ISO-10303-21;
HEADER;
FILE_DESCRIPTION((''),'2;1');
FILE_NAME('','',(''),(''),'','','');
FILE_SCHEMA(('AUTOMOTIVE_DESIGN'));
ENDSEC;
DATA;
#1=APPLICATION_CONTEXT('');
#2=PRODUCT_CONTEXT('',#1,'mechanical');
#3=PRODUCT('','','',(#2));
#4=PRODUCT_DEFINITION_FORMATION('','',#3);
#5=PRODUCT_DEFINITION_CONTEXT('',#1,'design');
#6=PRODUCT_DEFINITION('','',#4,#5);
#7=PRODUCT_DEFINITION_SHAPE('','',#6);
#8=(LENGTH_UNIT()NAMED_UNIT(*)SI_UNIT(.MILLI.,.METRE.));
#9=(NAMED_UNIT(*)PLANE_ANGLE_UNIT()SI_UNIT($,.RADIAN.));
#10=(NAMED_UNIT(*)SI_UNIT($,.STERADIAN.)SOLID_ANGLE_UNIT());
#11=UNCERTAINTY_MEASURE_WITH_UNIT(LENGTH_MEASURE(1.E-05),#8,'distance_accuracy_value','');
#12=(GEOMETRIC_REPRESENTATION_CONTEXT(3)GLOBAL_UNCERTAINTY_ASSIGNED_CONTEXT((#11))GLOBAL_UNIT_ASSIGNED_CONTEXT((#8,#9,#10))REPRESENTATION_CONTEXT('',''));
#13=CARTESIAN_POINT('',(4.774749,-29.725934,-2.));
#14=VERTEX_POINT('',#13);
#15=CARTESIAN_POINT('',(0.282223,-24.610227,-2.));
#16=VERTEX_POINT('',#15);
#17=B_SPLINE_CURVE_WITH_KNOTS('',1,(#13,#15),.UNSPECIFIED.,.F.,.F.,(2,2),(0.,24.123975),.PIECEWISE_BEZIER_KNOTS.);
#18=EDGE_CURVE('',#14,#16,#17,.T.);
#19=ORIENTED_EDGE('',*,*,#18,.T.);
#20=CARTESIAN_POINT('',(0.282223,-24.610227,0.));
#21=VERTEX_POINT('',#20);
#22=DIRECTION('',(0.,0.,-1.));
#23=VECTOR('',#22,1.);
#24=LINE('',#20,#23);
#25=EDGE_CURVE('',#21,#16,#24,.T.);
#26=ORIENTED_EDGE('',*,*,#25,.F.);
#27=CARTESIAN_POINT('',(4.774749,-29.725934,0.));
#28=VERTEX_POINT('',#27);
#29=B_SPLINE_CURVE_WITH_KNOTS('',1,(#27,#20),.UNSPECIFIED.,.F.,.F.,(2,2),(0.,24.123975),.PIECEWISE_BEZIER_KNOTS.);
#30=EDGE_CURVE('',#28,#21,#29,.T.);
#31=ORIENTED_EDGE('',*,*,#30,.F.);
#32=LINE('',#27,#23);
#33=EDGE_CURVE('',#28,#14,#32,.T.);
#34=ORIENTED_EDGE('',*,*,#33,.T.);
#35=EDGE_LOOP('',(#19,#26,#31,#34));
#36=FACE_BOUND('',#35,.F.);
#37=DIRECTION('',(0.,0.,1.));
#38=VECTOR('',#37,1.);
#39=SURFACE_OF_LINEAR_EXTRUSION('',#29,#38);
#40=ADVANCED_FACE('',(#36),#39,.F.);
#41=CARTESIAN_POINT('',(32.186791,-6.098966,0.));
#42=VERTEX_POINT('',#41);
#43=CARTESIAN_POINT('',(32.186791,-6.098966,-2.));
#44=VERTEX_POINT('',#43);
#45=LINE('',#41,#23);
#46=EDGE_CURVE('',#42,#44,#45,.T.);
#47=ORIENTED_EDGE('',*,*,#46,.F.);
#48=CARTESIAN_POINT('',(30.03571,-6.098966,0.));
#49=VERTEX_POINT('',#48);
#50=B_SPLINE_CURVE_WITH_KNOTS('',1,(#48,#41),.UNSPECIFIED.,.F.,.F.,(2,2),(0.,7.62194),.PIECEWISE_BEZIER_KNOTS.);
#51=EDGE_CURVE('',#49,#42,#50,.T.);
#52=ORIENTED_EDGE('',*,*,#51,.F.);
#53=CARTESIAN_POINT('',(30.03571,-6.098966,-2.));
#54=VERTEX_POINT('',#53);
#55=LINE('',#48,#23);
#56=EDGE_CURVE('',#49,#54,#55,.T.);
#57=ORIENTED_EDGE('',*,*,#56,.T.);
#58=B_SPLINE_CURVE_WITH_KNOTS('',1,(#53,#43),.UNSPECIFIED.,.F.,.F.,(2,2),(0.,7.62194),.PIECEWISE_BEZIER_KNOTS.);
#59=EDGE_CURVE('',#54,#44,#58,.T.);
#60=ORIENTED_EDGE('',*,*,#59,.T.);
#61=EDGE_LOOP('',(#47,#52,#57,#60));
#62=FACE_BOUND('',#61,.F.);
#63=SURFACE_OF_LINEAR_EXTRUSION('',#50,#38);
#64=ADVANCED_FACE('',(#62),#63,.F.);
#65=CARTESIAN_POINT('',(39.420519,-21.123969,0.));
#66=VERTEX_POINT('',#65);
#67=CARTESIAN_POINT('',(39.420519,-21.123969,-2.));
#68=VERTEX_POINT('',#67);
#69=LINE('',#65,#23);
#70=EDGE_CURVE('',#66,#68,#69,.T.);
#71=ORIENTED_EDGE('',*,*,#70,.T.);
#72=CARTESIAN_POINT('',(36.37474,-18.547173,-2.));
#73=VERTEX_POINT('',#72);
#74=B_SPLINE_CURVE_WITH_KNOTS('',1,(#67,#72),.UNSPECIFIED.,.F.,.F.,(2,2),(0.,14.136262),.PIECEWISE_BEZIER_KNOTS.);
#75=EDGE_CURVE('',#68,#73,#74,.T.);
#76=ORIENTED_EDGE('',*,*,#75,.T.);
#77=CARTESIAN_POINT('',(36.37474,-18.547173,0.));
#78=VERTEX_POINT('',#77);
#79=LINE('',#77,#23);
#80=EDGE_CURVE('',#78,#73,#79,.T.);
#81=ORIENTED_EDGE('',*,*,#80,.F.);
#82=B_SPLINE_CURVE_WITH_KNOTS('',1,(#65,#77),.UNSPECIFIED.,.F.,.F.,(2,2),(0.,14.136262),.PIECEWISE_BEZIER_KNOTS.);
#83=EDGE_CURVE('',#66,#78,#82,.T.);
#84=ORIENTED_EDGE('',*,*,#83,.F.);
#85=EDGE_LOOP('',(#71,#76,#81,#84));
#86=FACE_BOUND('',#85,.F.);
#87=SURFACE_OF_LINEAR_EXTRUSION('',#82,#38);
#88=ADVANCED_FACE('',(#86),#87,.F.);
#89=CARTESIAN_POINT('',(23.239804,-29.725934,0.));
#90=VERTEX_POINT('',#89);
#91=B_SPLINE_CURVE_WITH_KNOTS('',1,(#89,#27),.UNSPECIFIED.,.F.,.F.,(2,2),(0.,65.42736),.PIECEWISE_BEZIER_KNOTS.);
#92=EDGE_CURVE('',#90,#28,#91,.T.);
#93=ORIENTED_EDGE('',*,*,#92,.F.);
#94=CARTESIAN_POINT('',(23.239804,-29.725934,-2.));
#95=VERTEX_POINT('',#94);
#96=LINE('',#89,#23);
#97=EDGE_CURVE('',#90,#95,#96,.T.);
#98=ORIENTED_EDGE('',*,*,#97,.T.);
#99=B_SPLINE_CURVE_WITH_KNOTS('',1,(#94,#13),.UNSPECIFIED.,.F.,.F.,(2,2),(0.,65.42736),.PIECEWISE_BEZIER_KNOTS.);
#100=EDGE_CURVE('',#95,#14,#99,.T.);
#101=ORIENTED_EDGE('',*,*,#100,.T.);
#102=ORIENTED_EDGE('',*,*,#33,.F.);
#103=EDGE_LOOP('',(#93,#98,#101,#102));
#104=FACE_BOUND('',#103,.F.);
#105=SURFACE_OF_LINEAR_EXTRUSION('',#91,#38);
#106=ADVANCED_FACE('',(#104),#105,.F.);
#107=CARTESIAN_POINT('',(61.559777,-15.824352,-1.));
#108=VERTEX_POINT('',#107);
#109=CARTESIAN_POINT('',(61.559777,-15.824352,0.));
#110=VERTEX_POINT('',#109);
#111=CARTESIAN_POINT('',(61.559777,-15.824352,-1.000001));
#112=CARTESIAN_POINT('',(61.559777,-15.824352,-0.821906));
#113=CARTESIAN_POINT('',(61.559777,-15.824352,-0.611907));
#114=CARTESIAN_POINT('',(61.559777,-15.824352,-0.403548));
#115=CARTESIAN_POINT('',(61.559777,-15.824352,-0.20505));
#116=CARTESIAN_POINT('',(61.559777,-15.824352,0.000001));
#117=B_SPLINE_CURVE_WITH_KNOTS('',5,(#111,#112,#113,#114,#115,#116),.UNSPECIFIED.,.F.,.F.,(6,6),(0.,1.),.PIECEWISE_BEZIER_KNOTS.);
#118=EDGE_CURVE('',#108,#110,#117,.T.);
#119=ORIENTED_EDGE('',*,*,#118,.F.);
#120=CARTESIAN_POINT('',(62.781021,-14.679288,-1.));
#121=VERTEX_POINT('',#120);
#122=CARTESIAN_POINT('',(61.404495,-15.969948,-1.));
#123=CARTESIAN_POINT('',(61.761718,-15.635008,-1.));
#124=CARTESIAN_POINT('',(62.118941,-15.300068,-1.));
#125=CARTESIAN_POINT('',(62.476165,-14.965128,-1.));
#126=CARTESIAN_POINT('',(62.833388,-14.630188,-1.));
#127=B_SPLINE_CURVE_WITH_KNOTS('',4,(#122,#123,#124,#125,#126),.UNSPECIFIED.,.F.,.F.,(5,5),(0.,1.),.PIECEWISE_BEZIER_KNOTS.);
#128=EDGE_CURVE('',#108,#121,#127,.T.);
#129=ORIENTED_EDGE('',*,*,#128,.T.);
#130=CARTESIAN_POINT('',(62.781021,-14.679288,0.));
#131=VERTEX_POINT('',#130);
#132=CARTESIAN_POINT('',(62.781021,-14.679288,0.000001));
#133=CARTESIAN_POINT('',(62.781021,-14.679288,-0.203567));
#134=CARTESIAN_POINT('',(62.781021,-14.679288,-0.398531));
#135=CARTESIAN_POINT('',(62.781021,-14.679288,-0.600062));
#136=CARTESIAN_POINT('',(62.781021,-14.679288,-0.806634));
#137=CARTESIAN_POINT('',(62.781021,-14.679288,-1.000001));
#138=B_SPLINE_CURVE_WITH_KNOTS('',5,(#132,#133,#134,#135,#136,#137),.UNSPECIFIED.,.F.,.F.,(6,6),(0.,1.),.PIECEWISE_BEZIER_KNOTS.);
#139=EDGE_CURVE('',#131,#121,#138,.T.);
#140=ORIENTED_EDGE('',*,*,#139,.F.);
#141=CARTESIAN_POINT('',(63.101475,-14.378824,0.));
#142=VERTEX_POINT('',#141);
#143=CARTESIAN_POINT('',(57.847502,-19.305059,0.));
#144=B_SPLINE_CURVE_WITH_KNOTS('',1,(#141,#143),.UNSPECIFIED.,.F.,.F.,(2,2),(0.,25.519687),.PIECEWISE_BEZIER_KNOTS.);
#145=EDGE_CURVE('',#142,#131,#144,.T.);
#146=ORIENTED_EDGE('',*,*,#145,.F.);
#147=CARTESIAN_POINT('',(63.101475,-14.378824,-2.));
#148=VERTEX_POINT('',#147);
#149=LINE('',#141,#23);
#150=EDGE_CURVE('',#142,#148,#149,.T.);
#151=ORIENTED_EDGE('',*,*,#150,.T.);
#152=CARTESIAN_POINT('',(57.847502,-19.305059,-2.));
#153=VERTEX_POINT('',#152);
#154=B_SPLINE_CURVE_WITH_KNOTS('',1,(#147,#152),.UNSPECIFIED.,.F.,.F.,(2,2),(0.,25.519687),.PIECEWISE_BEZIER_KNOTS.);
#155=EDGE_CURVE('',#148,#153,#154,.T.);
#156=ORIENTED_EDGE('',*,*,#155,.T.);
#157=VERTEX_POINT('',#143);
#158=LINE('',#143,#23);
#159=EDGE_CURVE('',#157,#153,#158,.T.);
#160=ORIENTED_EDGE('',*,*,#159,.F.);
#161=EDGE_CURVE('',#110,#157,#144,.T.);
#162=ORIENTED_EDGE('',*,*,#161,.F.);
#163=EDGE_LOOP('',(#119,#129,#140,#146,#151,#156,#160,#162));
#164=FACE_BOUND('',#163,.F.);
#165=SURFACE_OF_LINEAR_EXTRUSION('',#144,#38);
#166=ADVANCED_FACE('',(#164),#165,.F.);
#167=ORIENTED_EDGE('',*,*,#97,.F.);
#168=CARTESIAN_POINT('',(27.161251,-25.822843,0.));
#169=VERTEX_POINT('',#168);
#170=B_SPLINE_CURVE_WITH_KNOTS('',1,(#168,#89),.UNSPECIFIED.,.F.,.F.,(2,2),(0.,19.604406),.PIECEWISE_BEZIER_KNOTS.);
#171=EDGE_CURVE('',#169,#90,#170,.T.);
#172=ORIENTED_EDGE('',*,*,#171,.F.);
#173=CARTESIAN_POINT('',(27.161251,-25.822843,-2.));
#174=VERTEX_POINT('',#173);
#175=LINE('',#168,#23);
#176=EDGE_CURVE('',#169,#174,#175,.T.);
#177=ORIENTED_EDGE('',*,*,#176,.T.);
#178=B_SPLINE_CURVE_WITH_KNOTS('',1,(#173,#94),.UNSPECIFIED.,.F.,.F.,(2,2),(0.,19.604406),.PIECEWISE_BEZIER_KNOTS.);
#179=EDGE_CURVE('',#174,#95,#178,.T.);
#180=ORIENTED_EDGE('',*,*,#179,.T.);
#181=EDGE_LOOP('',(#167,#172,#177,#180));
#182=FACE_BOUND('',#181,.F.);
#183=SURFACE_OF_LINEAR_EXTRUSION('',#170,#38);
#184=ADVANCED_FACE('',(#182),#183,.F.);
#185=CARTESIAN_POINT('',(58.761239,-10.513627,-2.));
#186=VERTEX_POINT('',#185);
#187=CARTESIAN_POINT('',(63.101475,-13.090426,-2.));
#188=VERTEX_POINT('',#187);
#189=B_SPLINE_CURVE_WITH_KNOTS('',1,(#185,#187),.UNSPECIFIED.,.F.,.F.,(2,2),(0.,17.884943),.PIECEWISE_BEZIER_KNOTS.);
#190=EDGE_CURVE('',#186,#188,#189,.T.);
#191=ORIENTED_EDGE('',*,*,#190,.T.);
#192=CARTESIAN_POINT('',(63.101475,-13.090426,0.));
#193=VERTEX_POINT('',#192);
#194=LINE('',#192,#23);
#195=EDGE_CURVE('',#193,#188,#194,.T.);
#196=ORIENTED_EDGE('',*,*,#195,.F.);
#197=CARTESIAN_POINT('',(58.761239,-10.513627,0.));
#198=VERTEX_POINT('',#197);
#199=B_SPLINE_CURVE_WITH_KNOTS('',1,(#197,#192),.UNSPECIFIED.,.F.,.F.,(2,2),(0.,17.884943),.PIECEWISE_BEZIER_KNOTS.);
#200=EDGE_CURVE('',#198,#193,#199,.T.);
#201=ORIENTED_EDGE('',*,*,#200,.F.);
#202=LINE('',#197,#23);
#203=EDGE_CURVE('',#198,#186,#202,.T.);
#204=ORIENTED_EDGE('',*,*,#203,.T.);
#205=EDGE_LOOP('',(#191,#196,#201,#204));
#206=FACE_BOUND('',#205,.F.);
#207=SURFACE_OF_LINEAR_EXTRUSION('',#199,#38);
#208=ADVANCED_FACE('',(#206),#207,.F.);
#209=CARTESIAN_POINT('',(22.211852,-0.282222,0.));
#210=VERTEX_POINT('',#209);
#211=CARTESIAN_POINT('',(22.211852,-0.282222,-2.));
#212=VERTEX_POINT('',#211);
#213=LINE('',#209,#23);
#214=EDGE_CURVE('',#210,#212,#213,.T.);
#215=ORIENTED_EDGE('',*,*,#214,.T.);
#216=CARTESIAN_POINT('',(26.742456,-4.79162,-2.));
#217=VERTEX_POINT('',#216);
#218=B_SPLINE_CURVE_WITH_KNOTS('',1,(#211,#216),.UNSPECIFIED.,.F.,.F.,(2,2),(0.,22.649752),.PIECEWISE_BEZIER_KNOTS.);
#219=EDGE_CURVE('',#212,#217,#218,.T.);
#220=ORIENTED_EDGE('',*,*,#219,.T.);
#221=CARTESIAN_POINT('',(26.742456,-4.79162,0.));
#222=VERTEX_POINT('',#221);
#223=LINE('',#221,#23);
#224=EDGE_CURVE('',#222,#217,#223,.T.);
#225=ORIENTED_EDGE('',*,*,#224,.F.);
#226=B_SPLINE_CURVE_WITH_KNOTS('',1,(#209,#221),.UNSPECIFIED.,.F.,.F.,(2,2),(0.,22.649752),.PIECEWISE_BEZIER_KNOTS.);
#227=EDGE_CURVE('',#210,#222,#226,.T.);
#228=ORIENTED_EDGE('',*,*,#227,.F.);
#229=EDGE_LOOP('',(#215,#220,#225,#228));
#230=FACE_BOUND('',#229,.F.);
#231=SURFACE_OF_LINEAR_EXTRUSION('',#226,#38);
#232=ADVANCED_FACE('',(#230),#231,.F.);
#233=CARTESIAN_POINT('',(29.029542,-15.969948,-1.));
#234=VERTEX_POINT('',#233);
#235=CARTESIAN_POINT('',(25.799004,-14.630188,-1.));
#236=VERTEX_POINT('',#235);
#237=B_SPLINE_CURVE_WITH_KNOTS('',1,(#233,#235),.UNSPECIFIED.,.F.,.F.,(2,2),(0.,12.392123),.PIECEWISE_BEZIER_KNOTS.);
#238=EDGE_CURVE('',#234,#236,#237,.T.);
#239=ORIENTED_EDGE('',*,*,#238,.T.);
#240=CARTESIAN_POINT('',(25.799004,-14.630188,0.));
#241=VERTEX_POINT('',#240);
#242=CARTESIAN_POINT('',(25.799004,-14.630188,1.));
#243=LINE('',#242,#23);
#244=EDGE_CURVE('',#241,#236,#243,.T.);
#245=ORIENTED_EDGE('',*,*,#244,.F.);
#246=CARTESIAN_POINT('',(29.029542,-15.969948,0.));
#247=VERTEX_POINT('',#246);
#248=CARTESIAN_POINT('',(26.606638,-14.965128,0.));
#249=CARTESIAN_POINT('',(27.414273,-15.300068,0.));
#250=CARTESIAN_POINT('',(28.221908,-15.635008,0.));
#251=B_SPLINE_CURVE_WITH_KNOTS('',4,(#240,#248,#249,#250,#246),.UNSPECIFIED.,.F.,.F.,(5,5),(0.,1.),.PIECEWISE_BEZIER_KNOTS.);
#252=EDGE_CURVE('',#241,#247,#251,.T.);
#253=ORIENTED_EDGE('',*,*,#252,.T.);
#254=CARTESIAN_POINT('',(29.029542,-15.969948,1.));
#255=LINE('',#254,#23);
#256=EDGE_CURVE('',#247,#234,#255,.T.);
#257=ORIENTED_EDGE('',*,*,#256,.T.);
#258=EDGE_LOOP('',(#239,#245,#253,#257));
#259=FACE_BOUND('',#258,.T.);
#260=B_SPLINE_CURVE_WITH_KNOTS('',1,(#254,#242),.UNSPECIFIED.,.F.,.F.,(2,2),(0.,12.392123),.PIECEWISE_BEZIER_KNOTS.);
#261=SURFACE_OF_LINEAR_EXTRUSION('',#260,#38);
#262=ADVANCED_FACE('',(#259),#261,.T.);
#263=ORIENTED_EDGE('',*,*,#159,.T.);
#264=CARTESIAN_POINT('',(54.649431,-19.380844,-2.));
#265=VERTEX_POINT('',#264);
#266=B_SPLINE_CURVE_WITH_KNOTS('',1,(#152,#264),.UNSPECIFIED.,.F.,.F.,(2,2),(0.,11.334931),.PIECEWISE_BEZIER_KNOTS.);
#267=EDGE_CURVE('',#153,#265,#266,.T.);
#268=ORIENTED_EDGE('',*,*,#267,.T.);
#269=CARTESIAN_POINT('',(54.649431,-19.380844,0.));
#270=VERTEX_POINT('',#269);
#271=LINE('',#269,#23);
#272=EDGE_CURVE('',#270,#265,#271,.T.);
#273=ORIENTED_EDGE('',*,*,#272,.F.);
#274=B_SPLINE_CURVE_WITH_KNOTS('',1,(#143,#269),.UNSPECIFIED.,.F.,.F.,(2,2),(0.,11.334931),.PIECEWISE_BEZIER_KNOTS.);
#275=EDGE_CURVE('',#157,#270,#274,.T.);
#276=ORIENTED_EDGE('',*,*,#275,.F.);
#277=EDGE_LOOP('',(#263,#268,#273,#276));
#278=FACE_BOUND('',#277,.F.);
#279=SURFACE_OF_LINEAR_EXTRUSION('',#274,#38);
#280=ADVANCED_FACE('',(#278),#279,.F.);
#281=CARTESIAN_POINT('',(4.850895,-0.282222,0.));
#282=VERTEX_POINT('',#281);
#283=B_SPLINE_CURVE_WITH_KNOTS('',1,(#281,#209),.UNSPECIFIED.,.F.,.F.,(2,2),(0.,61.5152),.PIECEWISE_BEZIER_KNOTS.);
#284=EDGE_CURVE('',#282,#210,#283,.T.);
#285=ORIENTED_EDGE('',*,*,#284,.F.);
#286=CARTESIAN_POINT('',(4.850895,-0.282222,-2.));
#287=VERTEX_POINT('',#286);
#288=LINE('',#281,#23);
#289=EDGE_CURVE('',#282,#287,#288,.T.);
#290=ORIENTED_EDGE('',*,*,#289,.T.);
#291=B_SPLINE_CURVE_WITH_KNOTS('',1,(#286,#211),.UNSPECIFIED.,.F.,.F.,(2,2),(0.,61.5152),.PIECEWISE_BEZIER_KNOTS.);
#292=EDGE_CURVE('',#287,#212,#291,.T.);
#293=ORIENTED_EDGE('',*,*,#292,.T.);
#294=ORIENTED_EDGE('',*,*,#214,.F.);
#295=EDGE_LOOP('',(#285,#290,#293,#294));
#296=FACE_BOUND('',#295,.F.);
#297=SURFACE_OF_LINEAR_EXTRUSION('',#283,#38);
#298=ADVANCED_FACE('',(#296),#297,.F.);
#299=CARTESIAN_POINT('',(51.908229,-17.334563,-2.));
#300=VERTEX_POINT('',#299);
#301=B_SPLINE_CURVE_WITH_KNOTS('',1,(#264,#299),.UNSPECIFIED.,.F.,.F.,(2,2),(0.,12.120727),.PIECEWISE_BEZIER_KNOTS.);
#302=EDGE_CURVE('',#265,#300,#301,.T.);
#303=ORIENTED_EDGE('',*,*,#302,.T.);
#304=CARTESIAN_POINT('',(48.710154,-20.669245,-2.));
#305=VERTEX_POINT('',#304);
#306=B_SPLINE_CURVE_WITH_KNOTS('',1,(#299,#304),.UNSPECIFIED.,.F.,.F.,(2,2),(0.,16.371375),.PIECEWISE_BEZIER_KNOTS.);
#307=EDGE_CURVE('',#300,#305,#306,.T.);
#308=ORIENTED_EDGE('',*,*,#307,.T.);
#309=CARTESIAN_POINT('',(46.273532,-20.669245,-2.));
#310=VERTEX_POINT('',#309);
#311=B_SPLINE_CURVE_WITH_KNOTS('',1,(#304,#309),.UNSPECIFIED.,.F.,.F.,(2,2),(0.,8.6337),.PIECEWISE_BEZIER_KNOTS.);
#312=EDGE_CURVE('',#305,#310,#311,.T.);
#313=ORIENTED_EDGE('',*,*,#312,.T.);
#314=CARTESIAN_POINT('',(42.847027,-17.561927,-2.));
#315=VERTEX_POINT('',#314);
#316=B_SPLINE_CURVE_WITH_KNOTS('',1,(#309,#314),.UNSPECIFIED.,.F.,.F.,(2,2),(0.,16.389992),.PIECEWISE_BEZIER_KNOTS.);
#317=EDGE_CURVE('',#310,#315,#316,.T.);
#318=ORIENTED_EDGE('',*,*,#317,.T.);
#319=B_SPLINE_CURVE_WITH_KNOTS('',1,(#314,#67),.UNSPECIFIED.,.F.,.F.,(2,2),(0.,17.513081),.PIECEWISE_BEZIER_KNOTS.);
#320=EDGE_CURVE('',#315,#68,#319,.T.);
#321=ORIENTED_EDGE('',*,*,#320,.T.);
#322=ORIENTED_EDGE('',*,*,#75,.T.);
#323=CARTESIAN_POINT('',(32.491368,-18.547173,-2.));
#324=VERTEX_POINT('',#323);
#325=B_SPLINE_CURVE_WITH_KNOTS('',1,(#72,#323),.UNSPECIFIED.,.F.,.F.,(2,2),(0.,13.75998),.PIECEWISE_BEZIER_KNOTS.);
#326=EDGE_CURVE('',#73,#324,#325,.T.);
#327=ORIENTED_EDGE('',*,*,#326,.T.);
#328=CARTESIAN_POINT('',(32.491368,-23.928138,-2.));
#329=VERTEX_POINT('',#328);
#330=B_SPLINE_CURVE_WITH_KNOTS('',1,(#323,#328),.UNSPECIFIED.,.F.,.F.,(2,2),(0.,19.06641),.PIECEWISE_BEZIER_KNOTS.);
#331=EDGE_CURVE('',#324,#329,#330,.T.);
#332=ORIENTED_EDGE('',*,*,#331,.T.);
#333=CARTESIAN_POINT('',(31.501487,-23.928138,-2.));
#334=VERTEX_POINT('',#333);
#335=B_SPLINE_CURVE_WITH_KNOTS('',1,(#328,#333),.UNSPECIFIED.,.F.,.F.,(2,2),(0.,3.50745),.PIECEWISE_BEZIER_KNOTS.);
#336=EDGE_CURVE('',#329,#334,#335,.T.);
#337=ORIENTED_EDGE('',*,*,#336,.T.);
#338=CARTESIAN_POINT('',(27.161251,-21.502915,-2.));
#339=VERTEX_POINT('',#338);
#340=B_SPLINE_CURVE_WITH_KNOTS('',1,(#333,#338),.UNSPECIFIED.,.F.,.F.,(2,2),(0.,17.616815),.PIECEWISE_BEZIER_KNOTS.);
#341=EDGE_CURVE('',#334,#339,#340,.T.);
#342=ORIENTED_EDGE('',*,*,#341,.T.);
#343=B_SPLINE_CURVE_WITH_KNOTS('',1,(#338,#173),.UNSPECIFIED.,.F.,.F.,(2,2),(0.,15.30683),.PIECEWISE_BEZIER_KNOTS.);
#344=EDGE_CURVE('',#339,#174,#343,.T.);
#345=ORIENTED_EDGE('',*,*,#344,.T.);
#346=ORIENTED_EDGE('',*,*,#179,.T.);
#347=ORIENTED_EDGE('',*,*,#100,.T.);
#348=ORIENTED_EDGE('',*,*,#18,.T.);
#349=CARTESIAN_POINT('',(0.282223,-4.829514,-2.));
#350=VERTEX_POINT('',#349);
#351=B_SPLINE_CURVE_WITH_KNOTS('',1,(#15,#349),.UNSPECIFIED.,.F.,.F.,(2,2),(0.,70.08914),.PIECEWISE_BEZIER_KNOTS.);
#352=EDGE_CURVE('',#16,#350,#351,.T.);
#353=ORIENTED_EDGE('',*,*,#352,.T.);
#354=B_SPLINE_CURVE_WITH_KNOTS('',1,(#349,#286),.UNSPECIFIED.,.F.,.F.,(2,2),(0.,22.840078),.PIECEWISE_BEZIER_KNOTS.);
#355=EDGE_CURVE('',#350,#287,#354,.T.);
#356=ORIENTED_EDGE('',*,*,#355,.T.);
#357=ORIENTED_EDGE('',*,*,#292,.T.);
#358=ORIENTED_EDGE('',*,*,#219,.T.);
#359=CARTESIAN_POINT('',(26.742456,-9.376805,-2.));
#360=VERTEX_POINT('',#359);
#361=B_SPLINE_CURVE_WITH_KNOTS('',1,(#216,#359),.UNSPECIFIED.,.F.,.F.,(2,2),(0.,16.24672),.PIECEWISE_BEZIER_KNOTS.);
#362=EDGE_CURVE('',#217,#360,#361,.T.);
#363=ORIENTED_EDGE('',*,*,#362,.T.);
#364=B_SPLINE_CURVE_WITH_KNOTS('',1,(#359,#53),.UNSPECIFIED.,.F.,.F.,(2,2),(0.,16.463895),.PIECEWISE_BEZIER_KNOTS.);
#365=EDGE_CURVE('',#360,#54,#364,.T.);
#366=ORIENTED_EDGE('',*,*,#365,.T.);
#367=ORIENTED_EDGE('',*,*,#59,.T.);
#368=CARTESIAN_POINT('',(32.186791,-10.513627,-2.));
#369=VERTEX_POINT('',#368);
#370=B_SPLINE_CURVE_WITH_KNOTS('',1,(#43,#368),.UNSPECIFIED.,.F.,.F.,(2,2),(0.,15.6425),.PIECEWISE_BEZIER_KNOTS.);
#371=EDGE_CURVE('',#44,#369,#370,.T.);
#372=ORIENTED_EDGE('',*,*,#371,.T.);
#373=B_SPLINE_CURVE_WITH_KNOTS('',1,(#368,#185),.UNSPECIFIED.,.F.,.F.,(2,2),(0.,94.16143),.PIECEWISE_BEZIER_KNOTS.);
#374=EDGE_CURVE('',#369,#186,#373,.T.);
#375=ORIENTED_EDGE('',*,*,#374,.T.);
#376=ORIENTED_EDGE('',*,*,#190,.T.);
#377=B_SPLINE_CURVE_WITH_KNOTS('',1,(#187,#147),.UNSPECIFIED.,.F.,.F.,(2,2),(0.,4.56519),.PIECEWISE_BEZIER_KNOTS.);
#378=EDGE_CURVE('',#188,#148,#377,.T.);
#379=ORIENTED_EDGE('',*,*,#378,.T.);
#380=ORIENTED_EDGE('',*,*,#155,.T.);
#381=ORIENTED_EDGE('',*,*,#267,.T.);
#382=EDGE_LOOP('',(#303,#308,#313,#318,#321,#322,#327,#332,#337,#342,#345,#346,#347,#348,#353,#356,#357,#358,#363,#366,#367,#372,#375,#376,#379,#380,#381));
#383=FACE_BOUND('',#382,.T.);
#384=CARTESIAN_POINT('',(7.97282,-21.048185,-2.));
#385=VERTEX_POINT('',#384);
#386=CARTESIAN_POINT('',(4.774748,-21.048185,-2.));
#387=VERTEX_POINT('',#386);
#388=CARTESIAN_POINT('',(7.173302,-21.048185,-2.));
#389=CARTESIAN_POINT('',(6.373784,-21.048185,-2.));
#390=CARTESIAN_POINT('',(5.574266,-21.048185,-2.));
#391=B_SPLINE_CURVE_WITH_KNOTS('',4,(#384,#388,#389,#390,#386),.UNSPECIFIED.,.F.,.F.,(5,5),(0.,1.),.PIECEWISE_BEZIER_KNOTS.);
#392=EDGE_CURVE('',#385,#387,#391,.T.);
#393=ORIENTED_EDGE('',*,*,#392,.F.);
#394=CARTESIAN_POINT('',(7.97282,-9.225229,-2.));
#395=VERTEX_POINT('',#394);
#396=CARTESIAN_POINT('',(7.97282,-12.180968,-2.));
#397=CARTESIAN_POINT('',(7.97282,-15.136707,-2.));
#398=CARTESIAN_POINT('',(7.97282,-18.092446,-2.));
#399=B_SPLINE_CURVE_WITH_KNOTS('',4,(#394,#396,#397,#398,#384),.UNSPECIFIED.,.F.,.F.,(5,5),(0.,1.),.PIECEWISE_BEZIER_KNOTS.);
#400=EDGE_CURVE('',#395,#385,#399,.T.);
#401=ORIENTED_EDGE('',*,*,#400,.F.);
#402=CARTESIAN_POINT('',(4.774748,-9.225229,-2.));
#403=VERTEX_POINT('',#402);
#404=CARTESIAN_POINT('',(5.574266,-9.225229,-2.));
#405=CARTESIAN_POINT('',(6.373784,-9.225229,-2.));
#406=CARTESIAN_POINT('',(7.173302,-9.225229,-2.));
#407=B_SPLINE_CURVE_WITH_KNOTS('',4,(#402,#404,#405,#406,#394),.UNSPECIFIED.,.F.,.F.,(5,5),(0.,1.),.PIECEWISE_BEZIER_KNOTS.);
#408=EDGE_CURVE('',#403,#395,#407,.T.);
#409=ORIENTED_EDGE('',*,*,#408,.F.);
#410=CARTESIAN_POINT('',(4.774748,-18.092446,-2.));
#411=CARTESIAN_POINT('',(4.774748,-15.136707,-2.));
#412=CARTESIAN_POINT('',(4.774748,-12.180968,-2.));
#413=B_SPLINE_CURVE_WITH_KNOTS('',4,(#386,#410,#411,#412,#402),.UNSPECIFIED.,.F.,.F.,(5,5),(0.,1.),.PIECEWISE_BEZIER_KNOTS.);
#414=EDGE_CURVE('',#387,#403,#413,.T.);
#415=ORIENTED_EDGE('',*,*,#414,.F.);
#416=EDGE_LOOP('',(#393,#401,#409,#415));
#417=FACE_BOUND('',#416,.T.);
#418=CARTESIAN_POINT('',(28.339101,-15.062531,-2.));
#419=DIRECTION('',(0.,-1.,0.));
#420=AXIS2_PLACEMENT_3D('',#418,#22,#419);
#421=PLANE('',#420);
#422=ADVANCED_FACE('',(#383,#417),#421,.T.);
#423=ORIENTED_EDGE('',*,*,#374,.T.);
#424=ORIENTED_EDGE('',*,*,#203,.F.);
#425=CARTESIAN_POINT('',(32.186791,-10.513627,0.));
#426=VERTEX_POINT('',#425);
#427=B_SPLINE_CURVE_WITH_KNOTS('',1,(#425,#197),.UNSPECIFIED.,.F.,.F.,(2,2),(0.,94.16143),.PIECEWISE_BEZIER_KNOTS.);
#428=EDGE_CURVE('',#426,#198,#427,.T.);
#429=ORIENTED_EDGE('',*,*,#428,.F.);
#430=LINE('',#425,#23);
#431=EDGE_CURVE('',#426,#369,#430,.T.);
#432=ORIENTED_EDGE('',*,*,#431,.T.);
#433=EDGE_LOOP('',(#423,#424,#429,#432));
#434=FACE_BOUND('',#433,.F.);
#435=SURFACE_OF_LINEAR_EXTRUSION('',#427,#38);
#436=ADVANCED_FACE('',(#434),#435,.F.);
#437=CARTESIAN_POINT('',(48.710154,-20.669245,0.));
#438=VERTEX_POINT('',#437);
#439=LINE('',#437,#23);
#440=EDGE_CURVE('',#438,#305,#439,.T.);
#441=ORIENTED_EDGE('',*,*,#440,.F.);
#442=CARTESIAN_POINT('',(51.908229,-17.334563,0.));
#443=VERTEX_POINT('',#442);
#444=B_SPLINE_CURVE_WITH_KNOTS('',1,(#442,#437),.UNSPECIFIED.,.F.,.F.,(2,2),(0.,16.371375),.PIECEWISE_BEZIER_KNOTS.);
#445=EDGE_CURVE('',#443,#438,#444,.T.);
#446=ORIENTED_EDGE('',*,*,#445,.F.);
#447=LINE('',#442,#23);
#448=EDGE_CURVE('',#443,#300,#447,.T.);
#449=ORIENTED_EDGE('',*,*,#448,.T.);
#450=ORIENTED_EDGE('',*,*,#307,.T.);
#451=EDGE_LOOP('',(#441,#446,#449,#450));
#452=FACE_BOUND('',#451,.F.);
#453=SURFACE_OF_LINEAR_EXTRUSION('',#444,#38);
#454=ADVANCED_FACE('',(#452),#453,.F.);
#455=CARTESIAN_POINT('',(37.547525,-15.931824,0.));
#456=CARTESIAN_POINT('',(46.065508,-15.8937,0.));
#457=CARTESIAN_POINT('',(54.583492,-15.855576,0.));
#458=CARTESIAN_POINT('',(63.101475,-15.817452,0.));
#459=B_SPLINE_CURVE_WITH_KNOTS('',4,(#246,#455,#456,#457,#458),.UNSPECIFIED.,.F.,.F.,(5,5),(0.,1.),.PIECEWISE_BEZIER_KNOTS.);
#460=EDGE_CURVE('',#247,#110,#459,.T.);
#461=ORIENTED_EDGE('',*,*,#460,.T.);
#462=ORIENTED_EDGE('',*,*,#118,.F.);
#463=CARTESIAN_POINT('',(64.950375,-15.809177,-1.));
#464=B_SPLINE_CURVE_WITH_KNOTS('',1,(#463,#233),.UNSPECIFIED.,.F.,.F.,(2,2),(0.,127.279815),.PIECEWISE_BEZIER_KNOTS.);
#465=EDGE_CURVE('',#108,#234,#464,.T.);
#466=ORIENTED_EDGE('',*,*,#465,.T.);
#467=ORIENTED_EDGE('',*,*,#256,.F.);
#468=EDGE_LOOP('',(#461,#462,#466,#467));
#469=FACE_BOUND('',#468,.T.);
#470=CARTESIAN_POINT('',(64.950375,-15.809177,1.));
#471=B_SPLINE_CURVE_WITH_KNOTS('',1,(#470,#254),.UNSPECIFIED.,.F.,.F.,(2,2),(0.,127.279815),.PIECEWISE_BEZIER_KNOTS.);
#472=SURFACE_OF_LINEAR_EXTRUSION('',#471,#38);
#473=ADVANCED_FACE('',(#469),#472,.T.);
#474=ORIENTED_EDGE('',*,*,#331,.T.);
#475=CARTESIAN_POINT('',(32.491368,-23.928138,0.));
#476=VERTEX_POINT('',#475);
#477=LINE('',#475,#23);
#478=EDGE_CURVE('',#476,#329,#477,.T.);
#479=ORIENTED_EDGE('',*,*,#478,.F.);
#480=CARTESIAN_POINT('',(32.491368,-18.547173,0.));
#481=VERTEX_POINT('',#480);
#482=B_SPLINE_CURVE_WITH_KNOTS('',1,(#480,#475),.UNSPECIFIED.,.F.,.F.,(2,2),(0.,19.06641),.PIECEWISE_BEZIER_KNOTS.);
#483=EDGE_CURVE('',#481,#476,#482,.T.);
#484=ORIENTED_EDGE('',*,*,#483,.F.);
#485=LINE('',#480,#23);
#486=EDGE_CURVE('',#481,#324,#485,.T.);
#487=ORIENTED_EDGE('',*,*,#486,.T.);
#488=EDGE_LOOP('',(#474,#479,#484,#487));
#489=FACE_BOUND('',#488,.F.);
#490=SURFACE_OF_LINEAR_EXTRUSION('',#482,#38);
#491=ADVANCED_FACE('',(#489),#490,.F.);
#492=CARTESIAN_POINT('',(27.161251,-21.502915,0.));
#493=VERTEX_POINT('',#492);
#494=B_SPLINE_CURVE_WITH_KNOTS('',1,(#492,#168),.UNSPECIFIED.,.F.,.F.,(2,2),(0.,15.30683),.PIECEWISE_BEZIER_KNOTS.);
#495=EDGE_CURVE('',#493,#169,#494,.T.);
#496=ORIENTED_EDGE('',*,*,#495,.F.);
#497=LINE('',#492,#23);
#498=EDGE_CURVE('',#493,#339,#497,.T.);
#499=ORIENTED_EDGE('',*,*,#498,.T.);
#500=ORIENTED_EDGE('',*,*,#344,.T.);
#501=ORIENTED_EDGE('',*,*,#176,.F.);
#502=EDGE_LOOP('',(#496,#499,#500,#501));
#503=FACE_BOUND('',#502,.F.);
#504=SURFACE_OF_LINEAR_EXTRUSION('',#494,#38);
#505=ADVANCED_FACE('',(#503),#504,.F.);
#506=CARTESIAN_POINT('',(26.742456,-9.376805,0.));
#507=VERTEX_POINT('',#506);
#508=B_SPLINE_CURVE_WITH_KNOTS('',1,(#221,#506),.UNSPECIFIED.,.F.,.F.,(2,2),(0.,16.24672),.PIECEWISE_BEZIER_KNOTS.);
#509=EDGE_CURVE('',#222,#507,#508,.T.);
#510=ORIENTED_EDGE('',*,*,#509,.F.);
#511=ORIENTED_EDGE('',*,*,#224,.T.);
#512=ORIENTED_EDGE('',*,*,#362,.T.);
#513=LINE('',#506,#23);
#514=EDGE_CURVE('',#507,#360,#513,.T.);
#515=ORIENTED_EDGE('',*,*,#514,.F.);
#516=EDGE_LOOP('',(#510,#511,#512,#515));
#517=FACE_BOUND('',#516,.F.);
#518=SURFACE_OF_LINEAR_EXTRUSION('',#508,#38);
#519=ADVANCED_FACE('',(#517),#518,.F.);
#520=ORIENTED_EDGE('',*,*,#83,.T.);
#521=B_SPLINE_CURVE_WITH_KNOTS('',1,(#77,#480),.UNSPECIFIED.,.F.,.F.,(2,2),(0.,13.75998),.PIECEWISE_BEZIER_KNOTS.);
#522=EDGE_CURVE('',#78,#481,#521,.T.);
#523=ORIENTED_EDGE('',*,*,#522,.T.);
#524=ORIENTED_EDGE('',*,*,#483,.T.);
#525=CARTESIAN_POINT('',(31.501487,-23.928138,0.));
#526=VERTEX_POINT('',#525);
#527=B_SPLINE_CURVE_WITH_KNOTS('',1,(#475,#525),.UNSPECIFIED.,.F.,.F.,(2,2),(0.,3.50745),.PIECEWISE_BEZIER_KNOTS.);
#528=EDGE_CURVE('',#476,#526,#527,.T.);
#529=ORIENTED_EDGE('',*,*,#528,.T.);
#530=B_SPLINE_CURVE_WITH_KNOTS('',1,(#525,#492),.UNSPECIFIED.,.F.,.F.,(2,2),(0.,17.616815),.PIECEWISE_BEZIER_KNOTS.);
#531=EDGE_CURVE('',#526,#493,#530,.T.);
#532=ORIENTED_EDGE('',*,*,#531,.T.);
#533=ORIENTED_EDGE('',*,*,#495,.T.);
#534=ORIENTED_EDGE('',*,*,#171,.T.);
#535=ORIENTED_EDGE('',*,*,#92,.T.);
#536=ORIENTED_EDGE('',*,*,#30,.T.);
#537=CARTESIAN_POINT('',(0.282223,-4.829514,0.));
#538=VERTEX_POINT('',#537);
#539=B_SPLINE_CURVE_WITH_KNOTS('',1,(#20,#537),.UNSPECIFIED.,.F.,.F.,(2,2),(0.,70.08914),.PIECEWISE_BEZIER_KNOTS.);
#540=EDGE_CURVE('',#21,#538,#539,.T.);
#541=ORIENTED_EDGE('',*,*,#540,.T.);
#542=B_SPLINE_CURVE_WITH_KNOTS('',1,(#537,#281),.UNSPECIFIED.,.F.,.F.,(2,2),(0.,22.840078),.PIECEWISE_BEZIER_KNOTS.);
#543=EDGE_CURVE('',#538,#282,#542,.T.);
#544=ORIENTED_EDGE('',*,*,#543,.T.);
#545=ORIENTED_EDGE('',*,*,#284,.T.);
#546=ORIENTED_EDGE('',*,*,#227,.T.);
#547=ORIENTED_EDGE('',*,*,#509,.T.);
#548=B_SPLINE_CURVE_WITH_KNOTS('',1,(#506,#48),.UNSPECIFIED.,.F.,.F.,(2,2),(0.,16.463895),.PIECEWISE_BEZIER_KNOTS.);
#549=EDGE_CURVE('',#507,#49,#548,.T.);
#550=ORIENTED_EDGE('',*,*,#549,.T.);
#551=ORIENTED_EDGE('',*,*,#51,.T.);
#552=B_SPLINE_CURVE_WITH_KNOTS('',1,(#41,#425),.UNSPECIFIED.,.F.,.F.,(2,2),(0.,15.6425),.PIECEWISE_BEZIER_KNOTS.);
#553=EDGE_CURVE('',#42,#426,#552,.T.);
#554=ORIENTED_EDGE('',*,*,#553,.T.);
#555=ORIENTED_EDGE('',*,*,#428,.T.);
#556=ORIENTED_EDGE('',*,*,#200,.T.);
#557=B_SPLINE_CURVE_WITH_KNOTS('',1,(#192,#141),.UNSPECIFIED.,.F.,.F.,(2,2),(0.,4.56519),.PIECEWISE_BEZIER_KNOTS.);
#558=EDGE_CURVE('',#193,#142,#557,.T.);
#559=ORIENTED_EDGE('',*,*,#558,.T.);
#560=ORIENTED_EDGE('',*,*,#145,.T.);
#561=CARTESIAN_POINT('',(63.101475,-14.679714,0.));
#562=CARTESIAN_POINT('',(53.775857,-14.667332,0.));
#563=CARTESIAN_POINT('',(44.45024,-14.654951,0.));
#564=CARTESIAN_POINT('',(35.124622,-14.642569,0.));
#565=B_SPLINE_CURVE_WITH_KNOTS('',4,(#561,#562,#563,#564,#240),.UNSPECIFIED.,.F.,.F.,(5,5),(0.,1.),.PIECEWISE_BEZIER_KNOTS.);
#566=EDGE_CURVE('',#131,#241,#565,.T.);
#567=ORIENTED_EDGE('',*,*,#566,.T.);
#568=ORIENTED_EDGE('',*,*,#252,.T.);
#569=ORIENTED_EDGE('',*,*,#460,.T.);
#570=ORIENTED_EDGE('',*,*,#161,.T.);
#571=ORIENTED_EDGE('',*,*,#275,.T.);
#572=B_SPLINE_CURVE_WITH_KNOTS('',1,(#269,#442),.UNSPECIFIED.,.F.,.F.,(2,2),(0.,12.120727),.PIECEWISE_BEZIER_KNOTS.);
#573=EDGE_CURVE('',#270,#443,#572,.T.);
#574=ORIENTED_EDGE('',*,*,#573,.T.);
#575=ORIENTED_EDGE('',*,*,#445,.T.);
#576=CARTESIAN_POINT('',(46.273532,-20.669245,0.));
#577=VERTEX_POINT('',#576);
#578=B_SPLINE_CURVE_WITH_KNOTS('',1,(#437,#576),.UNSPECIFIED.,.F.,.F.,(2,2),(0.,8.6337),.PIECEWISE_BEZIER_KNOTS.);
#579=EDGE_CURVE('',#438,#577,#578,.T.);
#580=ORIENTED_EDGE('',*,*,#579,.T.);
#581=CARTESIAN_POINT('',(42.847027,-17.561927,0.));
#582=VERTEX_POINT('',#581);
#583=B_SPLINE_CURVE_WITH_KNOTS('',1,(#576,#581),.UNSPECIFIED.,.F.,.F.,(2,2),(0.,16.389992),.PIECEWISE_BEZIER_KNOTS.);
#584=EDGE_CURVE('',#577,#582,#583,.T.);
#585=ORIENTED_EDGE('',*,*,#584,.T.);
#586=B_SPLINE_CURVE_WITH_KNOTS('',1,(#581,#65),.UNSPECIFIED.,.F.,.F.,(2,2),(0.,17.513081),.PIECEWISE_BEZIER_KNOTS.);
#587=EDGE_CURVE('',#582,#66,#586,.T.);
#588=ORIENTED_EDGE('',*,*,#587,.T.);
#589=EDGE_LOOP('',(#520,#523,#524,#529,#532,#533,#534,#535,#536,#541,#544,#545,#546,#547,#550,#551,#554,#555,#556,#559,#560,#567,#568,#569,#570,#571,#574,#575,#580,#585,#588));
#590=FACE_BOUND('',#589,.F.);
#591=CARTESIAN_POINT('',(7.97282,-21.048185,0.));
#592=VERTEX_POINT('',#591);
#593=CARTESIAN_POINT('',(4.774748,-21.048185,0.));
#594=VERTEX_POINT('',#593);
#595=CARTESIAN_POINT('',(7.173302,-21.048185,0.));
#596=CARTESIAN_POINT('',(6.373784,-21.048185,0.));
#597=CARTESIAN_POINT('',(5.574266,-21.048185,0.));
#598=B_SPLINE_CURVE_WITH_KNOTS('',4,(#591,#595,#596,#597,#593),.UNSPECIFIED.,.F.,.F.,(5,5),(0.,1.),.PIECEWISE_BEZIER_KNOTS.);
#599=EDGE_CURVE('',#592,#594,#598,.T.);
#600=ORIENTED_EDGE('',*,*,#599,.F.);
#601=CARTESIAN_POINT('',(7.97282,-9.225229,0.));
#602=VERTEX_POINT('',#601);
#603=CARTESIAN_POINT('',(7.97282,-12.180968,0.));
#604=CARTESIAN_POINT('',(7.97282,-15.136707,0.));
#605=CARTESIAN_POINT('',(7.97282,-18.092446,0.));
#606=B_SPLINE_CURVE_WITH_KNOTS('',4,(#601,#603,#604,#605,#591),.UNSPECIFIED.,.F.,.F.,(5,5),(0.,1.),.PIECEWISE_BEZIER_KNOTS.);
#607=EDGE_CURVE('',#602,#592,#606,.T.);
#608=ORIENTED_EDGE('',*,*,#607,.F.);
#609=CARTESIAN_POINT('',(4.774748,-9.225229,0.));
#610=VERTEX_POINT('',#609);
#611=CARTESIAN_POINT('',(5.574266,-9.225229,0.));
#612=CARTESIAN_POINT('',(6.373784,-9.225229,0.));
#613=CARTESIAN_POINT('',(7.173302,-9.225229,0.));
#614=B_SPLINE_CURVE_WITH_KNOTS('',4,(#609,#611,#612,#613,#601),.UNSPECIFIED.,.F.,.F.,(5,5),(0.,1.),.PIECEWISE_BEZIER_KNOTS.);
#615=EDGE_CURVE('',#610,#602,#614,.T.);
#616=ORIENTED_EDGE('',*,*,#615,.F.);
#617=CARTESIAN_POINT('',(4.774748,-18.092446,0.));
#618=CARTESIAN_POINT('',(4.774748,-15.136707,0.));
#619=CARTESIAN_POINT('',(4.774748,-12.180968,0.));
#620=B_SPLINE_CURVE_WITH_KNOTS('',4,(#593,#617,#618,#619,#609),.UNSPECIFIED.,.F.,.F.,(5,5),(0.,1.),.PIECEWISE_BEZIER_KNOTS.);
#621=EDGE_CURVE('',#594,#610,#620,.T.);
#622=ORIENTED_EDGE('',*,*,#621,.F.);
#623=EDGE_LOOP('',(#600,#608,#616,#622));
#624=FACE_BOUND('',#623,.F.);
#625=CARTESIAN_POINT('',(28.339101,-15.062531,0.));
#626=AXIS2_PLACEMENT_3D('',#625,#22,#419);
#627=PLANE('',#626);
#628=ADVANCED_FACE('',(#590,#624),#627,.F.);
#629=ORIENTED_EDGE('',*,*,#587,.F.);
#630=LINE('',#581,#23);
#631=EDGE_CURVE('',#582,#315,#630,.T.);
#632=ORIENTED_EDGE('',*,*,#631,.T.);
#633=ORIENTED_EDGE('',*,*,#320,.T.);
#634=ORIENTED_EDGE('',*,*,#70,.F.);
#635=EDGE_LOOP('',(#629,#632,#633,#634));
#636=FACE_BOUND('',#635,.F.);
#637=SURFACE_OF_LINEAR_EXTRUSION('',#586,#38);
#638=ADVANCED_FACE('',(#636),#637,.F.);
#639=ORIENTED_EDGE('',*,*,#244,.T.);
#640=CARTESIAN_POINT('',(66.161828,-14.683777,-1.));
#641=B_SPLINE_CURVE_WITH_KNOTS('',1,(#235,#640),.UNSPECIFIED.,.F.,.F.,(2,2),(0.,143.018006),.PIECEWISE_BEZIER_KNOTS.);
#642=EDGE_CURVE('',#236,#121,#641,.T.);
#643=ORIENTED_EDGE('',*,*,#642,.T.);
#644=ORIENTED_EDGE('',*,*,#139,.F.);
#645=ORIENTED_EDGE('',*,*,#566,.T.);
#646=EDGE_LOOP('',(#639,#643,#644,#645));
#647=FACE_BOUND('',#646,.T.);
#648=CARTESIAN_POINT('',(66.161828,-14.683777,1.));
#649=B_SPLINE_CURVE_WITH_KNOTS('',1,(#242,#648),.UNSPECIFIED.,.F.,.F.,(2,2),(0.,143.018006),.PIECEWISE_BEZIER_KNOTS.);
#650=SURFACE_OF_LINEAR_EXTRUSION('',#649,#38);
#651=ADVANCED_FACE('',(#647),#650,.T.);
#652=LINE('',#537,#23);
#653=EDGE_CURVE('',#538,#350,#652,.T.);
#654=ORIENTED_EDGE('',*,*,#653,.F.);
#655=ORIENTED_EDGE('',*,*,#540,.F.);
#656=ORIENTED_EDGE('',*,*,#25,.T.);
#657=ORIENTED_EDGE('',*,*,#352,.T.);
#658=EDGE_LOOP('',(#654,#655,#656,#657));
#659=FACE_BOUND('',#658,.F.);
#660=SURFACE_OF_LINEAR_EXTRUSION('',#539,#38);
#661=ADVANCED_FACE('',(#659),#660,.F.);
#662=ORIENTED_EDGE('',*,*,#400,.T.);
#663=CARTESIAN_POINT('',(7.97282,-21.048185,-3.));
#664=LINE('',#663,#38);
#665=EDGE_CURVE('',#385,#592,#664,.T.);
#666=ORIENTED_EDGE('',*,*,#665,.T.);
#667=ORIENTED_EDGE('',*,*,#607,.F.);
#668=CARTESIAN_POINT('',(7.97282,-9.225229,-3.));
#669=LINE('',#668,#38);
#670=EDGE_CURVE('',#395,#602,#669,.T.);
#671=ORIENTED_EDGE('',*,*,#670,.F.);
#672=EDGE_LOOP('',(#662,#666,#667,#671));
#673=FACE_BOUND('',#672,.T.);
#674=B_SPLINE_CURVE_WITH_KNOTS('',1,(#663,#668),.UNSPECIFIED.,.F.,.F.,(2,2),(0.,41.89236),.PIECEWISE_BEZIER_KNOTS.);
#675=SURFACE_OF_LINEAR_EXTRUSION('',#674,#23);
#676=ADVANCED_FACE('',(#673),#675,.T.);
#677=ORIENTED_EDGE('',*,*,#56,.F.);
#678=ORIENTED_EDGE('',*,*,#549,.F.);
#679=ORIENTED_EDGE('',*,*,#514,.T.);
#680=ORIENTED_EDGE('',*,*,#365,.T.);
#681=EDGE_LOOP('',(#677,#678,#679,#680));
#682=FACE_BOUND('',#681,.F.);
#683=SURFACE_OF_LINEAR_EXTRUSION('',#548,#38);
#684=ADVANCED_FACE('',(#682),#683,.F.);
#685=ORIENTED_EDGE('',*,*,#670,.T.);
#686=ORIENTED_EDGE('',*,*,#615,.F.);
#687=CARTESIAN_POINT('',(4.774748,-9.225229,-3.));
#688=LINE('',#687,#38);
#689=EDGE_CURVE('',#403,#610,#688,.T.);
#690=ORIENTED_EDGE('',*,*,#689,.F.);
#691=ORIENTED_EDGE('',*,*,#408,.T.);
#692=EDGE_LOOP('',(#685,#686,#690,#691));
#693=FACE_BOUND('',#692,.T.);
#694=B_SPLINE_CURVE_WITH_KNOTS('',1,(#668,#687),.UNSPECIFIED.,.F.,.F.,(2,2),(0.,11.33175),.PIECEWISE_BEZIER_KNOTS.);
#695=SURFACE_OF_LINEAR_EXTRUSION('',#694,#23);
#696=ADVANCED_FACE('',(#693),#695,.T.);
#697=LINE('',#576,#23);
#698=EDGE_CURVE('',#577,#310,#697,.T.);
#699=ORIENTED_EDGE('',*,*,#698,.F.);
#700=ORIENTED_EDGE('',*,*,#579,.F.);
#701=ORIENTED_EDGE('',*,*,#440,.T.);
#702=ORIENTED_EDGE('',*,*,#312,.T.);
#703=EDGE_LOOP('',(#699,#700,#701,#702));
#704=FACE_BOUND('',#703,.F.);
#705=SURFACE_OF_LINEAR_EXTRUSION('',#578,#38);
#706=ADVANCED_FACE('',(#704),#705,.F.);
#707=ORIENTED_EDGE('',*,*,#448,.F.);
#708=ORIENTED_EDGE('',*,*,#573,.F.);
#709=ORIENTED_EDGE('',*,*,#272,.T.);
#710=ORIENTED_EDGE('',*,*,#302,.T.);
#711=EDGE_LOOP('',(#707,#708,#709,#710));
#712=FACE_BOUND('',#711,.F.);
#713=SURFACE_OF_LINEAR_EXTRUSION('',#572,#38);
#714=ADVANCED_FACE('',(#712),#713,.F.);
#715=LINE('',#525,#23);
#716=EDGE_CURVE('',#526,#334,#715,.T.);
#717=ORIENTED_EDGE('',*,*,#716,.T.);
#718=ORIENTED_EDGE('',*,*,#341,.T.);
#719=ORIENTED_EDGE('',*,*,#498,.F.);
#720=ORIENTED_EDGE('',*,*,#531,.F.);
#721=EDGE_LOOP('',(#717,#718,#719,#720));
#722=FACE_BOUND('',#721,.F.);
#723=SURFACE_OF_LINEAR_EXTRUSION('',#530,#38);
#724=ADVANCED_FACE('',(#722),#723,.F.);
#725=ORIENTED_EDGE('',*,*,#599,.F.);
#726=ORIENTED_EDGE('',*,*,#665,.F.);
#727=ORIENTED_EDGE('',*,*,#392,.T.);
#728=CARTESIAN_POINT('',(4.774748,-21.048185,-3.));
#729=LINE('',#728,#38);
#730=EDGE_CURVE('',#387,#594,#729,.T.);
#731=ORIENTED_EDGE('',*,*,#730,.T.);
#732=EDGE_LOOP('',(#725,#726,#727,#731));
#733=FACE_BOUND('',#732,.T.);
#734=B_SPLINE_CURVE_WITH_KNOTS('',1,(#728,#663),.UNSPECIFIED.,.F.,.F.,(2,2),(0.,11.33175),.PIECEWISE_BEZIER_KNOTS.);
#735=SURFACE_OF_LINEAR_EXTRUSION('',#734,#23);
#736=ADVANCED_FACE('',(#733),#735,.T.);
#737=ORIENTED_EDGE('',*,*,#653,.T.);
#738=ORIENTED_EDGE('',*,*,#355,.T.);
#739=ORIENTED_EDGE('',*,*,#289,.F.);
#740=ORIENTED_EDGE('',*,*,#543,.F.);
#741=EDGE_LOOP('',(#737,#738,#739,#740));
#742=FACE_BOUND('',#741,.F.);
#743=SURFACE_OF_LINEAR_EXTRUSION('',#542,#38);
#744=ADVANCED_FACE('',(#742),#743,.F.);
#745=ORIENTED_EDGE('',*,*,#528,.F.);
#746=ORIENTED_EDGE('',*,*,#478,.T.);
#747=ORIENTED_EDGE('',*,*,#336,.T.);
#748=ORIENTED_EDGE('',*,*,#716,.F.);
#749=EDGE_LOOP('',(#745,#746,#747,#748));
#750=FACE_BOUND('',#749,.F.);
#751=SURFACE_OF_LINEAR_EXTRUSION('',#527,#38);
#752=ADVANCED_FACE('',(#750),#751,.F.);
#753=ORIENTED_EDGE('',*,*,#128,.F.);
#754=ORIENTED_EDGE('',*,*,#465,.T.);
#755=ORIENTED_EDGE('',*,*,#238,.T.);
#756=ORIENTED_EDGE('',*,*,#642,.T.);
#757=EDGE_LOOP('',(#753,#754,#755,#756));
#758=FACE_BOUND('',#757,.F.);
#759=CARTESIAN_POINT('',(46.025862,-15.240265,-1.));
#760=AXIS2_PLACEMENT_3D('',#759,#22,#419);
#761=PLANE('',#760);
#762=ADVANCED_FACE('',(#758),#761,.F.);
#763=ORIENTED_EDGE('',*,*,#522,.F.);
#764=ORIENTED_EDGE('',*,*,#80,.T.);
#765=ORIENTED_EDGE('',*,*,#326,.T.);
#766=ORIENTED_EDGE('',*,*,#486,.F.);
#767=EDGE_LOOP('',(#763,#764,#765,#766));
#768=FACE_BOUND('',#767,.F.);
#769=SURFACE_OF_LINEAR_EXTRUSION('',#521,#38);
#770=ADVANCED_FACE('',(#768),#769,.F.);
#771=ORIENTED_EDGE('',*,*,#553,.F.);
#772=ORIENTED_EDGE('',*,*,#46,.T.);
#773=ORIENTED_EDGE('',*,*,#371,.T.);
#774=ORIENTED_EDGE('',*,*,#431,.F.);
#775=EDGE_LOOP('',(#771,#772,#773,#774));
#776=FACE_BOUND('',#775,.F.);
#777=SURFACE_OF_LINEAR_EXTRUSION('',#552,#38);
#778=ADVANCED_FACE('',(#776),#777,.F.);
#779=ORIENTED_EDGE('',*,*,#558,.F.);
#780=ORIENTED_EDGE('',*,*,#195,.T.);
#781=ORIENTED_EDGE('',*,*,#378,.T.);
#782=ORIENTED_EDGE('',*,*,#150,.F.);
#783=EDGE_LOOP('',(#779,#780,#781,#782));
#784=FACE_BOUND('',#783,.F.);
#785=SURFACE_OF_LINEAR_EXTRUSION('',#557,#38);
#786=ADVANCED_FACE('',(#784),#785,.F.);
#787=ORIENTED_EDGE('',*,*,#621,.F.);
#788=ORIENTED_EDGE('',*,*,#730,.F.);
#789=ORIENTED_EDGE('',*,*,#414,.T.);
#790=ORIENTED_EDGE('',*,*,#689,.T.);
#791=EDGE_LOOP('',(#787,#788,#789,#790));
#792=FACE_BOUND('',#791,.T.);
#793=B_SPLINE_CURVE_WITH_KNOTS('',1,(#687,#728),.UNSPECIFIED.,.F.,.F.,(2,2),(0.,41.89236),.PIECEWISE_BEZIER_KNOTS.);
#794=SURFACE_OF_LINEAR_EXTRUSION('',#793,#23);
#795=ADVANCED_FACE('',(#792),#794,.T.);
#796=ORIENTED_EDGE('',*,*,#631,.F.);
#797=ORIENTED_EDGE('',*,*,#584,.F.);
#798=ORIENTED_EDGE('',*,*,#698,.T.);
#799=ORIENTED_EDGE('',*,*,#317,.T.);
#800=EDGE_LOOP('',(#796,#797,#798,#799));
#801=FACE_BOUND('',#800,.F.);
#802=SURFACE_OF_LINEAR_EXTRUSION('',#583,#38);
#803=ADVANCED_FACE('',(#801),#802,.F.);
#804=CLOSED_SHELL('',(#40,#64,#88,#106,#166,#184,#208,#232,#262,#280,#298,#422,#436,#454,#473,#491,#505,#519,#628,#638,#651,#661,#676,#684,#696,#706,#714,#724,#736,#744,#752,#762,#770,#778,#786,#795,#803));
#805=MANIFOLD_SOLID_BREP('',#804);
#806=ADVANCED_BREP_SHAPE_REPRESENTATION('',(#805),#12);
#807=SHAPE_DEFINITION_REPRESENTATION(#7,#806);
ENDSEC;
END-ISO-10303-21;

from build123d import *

# Parameters (mm, degrees)
EXTRUDE002_DEPTH = 5
EXTRUDE001_DEPTH = 2
EXTRUDE_DEPTH    = 2


with BuildPart() as taladro_llave:
    # path4171 → Extrude002 (new body)
    with BuildSketch(Plane(origin=(6.373784, -15.136707, 0), x_dir=(0, 1, 0), z_dir=(0, 0, 1))):
        with BuildLine():
            add(Edge.make_bspline(
                [(-5.911478, 1.599036), (-5.911478, -1.599036)],
                knots=[0, 0, 11.33175, 11.33175], degree=1))
            add(Edge.make_bspline(
                [(-5.911478, -1.599036), (5.911478, -1.599036)],
                knots=[0, 0, 41.89236, 41.89236], degree=1))
            add(Edge.make_bspline(
                [(5.911478, -1.599036), (5.911478, 1.599036)],
                knots=[0, 0, 11.33175, 11.33175], degree=1))
            add(Edge.make_bspline(
                [(5.911478, 1.599036), (-5.911478, 1.599036)],
                knots=[0, 0, 41.89236, 41.89236], degree=1))
        make_face()
    extrude(amount=EXTRUDE002_DEPTH)


with BuildPart() as taladro_llave_1:
    # Extrude002 placement: moved
    add(taladro_llave.part.moved(Location((0, 0, -3))))


with BuildPart() as muesca:
    # path4175 → Extrude001 (new body)
    with BuildSketch(Plane(origin=(45.980416, -15.300068, 0), x_dir=(0, -1, 0), z_dir=(0, 0, -1))):
        with BuildLine():
            add(Edge.make_bspline(
                [(-0.66988, 20.181412), (-0.616291, -20.181412)],
                knots=[0, 0, 143.018006, 143.018006], degree=1))
            add(Edge.make_bspline(
                [(-0.616291, -20.181412), (0.509109, -18.969959)],
                knots=[0, 0, 5.858947, 5.858947], degree=1))
            add(Edge.make_bspline(
                [(0.509109, -18.969959), (0.66988, 16.950874)],
                knots=[0, 0, 127.279815, 127.279815], degree=1))
            add(Edge.make_bspline(
                [(0.66988, 16.950874), (-0.66988, 20.181412)],
                knots=[0, 0, 12.392123, 12.392123], degree=1))
        make_face()
    extrude(amount=EXTRUDE001_DEPTH)


with BuildPart() as muesca_1:
    # Extrude001 placement: moved
    add(muesca.part.moved(Location((0, 0, 1))))


with BuildPart() as llave_final:
    # path4167 → Extrude (new body)
    with BuildSketch(Plane(origin=(31.691849, -15.004078, 0), x_dir=(0, -1, 0), z_dir=(0, 0, -1))):
        with BuildLine():
            add(Edge.make_bspline(
                [(9.606149, 31.409626), (-10.174564, 31.409626)],
                knots=[0, 0, 70.08914, 70.08914], degree=1))
            add(Edge.make_bspline(
                [(-10.174564, 31.409626), (-14.721856, 26.840954)],
                knots=[0, 0, 22.840078, 22.840078], degree=1))
            add(Edge.make_bspline(
                [(-14.721856, 26.840954), (-14.721856, 9.479997)],
                knots=[0, 0, 61.5152, 61.5152], degree=1))
            add(Edge.make_bspline(
                [(-14.721856, 9.479997), (-10.212458, 4.949393)],
                knots=[0, 0, 22.649752, 22.649752], degree=1))
            add(Edge.make_bspline(
                [(-10.212458, 4.949393), (-5.627273, 4.949393)],
                knots=[0, 0, 16.24672, 16.24672], degree=1))
            add(Edge.make_bspline(
                [(-5.627273, 4.949393), (-8.905112, 1.656139)],
                knots=[0, 0, 16.463895, 16.463895], degree=1))
            add(Edge.make_bspline(
                [(-8.905112, 1.656139), (-8.905112, -0.494942)],
                knots=[0, 0, 7.62194, 7.62194], degree=1))
            add(Edge.make_bspline(
                [(-8.905112, -0.494942), (-4.490451, -0.494942)],
                knots=[0, 0, 15.6425, 15.6425], degree=1))
            add(Edge.make_bspline(
                [(-4.490451, -0.494942), (-4.490451, -27.06939)],
                knots=[0, 0, 94.16143, 94.16143], degree=1))
            add(Edge.make_bspline(
                [(-4.490451, -27.06939), (-1.913652, -31.409626)],
                knots=[0, 0, 17.884943, 17.884943], degree=1))
            add(Edge.make_bspline(
                [(-1.913652, -31.409626), (-0.625254, -31.409626)],
                knots=[0, 0, 4.56519, 4.56519], degree=1))
            add(Edge.make_bspline(
                [(-0.625254, -31.409626), (4.300981, -26.155653)],
                knots=[0, 0, 25.519687, 25.519687], degree=1))
            add(Edge.make_bspline(
                [(4.300981, -26.155653), (4.376766, -22.957582)],
                knots=[0, 0, 11.334931, 11.334931], degree=1))
            add(Edge.make_bspline(
                [(4.376766, -22.957582), (2.330485, -20.21638)],
                knots=[0, 0, 12.120727, 12.120727], degree=1))
            add(Edge.make_bspline(
                [(2.330485, -20.21638), (5.665167, -17.018305)],
                knots=[0, 0, 16.371375, 16.371375], degree=1))
            add(Edge.make_bspline(
                [(5.665167, -17.018305), (5.665167, -14.581683)],
                knots=[0, 0, 8.6337, 8.6337], degree=1))
            add(Edge.make_bspline(
                [(5.665167, -14.581683), (2.557849, -11.155178)],
                knots=[0, 0, 16.389992, 16.389992], degree=1))
            add(Edge.make_bspline(
                [(2.557849, -11.155178), (6.119891, -7.72867)],
                knots=[0, 0, 17.513081, 17.513081], degree=1))
            add(Edge.make_bspline(
                [(6.119891, -7.72867), (3.543095, -4.682891)],
                knots=[0, 0, 14.136262, 14.136262], degree=1))
            add(Edge.make_bspline(
                [(3.543095, -4.682891), (3.543095, -0.799519)],
                knots=[0, 0, 13.75998, 13.75998], degree=1))
            add(Edge.make_bspline(
                [(3.543095, -0.799519), (8.92406, -0.799519)],
                knots=[0, 0, 19.06641, 19.06641], degree=1))
            add(Edge.make_bspline(
                [(8.92406, -0.799519), (8.92406, 0.190362)],
                knots=[0, 0, 3.50745, 3.50745], degree=1))
            add(Edge.make_bspline(
                [(8.92406, 0.190362), (6.498837, 4.530598)],
                knots=[0, 0, 17.616815, 17.616815], degree=1))
            add(Edge.make_bspline(
                [(6.498837, 4.530598), (10.818765, 4.530598)],
                knots=[0, 0, 15.30683, 15.30683], degree=1))
            add(Edge.make_bspline(
                [(10.818765, 4.530598), (14.721856, 8.452045)],
                knots=[0, 0, 19.604406, 19.604406], degree=1))
            add(Edge.make_bspline(
                [(14.721856, 8.452045), (14.721856, 26.9171)],
                knots=[0, 0, 65.42736, 65.42736], degree=1))
            add(Edge.make_bspline(
                [(14.721856, 26.9171), (9.606149, 31.409626)],
                knots=[0, 0, 24.123975, 24.123975], degree=1))
        make_face()
    extrude(amount=EXTRUDE_DEPTH)

    # Cut: cut muesca
    add(muesca_1.part, mode=Mode.SUBTRACT)

    # Cut001: cut taladro-llave
    add(taladro_llave_1.part, mode=Mode.SUBTRACT)


solid = llave_final.part
